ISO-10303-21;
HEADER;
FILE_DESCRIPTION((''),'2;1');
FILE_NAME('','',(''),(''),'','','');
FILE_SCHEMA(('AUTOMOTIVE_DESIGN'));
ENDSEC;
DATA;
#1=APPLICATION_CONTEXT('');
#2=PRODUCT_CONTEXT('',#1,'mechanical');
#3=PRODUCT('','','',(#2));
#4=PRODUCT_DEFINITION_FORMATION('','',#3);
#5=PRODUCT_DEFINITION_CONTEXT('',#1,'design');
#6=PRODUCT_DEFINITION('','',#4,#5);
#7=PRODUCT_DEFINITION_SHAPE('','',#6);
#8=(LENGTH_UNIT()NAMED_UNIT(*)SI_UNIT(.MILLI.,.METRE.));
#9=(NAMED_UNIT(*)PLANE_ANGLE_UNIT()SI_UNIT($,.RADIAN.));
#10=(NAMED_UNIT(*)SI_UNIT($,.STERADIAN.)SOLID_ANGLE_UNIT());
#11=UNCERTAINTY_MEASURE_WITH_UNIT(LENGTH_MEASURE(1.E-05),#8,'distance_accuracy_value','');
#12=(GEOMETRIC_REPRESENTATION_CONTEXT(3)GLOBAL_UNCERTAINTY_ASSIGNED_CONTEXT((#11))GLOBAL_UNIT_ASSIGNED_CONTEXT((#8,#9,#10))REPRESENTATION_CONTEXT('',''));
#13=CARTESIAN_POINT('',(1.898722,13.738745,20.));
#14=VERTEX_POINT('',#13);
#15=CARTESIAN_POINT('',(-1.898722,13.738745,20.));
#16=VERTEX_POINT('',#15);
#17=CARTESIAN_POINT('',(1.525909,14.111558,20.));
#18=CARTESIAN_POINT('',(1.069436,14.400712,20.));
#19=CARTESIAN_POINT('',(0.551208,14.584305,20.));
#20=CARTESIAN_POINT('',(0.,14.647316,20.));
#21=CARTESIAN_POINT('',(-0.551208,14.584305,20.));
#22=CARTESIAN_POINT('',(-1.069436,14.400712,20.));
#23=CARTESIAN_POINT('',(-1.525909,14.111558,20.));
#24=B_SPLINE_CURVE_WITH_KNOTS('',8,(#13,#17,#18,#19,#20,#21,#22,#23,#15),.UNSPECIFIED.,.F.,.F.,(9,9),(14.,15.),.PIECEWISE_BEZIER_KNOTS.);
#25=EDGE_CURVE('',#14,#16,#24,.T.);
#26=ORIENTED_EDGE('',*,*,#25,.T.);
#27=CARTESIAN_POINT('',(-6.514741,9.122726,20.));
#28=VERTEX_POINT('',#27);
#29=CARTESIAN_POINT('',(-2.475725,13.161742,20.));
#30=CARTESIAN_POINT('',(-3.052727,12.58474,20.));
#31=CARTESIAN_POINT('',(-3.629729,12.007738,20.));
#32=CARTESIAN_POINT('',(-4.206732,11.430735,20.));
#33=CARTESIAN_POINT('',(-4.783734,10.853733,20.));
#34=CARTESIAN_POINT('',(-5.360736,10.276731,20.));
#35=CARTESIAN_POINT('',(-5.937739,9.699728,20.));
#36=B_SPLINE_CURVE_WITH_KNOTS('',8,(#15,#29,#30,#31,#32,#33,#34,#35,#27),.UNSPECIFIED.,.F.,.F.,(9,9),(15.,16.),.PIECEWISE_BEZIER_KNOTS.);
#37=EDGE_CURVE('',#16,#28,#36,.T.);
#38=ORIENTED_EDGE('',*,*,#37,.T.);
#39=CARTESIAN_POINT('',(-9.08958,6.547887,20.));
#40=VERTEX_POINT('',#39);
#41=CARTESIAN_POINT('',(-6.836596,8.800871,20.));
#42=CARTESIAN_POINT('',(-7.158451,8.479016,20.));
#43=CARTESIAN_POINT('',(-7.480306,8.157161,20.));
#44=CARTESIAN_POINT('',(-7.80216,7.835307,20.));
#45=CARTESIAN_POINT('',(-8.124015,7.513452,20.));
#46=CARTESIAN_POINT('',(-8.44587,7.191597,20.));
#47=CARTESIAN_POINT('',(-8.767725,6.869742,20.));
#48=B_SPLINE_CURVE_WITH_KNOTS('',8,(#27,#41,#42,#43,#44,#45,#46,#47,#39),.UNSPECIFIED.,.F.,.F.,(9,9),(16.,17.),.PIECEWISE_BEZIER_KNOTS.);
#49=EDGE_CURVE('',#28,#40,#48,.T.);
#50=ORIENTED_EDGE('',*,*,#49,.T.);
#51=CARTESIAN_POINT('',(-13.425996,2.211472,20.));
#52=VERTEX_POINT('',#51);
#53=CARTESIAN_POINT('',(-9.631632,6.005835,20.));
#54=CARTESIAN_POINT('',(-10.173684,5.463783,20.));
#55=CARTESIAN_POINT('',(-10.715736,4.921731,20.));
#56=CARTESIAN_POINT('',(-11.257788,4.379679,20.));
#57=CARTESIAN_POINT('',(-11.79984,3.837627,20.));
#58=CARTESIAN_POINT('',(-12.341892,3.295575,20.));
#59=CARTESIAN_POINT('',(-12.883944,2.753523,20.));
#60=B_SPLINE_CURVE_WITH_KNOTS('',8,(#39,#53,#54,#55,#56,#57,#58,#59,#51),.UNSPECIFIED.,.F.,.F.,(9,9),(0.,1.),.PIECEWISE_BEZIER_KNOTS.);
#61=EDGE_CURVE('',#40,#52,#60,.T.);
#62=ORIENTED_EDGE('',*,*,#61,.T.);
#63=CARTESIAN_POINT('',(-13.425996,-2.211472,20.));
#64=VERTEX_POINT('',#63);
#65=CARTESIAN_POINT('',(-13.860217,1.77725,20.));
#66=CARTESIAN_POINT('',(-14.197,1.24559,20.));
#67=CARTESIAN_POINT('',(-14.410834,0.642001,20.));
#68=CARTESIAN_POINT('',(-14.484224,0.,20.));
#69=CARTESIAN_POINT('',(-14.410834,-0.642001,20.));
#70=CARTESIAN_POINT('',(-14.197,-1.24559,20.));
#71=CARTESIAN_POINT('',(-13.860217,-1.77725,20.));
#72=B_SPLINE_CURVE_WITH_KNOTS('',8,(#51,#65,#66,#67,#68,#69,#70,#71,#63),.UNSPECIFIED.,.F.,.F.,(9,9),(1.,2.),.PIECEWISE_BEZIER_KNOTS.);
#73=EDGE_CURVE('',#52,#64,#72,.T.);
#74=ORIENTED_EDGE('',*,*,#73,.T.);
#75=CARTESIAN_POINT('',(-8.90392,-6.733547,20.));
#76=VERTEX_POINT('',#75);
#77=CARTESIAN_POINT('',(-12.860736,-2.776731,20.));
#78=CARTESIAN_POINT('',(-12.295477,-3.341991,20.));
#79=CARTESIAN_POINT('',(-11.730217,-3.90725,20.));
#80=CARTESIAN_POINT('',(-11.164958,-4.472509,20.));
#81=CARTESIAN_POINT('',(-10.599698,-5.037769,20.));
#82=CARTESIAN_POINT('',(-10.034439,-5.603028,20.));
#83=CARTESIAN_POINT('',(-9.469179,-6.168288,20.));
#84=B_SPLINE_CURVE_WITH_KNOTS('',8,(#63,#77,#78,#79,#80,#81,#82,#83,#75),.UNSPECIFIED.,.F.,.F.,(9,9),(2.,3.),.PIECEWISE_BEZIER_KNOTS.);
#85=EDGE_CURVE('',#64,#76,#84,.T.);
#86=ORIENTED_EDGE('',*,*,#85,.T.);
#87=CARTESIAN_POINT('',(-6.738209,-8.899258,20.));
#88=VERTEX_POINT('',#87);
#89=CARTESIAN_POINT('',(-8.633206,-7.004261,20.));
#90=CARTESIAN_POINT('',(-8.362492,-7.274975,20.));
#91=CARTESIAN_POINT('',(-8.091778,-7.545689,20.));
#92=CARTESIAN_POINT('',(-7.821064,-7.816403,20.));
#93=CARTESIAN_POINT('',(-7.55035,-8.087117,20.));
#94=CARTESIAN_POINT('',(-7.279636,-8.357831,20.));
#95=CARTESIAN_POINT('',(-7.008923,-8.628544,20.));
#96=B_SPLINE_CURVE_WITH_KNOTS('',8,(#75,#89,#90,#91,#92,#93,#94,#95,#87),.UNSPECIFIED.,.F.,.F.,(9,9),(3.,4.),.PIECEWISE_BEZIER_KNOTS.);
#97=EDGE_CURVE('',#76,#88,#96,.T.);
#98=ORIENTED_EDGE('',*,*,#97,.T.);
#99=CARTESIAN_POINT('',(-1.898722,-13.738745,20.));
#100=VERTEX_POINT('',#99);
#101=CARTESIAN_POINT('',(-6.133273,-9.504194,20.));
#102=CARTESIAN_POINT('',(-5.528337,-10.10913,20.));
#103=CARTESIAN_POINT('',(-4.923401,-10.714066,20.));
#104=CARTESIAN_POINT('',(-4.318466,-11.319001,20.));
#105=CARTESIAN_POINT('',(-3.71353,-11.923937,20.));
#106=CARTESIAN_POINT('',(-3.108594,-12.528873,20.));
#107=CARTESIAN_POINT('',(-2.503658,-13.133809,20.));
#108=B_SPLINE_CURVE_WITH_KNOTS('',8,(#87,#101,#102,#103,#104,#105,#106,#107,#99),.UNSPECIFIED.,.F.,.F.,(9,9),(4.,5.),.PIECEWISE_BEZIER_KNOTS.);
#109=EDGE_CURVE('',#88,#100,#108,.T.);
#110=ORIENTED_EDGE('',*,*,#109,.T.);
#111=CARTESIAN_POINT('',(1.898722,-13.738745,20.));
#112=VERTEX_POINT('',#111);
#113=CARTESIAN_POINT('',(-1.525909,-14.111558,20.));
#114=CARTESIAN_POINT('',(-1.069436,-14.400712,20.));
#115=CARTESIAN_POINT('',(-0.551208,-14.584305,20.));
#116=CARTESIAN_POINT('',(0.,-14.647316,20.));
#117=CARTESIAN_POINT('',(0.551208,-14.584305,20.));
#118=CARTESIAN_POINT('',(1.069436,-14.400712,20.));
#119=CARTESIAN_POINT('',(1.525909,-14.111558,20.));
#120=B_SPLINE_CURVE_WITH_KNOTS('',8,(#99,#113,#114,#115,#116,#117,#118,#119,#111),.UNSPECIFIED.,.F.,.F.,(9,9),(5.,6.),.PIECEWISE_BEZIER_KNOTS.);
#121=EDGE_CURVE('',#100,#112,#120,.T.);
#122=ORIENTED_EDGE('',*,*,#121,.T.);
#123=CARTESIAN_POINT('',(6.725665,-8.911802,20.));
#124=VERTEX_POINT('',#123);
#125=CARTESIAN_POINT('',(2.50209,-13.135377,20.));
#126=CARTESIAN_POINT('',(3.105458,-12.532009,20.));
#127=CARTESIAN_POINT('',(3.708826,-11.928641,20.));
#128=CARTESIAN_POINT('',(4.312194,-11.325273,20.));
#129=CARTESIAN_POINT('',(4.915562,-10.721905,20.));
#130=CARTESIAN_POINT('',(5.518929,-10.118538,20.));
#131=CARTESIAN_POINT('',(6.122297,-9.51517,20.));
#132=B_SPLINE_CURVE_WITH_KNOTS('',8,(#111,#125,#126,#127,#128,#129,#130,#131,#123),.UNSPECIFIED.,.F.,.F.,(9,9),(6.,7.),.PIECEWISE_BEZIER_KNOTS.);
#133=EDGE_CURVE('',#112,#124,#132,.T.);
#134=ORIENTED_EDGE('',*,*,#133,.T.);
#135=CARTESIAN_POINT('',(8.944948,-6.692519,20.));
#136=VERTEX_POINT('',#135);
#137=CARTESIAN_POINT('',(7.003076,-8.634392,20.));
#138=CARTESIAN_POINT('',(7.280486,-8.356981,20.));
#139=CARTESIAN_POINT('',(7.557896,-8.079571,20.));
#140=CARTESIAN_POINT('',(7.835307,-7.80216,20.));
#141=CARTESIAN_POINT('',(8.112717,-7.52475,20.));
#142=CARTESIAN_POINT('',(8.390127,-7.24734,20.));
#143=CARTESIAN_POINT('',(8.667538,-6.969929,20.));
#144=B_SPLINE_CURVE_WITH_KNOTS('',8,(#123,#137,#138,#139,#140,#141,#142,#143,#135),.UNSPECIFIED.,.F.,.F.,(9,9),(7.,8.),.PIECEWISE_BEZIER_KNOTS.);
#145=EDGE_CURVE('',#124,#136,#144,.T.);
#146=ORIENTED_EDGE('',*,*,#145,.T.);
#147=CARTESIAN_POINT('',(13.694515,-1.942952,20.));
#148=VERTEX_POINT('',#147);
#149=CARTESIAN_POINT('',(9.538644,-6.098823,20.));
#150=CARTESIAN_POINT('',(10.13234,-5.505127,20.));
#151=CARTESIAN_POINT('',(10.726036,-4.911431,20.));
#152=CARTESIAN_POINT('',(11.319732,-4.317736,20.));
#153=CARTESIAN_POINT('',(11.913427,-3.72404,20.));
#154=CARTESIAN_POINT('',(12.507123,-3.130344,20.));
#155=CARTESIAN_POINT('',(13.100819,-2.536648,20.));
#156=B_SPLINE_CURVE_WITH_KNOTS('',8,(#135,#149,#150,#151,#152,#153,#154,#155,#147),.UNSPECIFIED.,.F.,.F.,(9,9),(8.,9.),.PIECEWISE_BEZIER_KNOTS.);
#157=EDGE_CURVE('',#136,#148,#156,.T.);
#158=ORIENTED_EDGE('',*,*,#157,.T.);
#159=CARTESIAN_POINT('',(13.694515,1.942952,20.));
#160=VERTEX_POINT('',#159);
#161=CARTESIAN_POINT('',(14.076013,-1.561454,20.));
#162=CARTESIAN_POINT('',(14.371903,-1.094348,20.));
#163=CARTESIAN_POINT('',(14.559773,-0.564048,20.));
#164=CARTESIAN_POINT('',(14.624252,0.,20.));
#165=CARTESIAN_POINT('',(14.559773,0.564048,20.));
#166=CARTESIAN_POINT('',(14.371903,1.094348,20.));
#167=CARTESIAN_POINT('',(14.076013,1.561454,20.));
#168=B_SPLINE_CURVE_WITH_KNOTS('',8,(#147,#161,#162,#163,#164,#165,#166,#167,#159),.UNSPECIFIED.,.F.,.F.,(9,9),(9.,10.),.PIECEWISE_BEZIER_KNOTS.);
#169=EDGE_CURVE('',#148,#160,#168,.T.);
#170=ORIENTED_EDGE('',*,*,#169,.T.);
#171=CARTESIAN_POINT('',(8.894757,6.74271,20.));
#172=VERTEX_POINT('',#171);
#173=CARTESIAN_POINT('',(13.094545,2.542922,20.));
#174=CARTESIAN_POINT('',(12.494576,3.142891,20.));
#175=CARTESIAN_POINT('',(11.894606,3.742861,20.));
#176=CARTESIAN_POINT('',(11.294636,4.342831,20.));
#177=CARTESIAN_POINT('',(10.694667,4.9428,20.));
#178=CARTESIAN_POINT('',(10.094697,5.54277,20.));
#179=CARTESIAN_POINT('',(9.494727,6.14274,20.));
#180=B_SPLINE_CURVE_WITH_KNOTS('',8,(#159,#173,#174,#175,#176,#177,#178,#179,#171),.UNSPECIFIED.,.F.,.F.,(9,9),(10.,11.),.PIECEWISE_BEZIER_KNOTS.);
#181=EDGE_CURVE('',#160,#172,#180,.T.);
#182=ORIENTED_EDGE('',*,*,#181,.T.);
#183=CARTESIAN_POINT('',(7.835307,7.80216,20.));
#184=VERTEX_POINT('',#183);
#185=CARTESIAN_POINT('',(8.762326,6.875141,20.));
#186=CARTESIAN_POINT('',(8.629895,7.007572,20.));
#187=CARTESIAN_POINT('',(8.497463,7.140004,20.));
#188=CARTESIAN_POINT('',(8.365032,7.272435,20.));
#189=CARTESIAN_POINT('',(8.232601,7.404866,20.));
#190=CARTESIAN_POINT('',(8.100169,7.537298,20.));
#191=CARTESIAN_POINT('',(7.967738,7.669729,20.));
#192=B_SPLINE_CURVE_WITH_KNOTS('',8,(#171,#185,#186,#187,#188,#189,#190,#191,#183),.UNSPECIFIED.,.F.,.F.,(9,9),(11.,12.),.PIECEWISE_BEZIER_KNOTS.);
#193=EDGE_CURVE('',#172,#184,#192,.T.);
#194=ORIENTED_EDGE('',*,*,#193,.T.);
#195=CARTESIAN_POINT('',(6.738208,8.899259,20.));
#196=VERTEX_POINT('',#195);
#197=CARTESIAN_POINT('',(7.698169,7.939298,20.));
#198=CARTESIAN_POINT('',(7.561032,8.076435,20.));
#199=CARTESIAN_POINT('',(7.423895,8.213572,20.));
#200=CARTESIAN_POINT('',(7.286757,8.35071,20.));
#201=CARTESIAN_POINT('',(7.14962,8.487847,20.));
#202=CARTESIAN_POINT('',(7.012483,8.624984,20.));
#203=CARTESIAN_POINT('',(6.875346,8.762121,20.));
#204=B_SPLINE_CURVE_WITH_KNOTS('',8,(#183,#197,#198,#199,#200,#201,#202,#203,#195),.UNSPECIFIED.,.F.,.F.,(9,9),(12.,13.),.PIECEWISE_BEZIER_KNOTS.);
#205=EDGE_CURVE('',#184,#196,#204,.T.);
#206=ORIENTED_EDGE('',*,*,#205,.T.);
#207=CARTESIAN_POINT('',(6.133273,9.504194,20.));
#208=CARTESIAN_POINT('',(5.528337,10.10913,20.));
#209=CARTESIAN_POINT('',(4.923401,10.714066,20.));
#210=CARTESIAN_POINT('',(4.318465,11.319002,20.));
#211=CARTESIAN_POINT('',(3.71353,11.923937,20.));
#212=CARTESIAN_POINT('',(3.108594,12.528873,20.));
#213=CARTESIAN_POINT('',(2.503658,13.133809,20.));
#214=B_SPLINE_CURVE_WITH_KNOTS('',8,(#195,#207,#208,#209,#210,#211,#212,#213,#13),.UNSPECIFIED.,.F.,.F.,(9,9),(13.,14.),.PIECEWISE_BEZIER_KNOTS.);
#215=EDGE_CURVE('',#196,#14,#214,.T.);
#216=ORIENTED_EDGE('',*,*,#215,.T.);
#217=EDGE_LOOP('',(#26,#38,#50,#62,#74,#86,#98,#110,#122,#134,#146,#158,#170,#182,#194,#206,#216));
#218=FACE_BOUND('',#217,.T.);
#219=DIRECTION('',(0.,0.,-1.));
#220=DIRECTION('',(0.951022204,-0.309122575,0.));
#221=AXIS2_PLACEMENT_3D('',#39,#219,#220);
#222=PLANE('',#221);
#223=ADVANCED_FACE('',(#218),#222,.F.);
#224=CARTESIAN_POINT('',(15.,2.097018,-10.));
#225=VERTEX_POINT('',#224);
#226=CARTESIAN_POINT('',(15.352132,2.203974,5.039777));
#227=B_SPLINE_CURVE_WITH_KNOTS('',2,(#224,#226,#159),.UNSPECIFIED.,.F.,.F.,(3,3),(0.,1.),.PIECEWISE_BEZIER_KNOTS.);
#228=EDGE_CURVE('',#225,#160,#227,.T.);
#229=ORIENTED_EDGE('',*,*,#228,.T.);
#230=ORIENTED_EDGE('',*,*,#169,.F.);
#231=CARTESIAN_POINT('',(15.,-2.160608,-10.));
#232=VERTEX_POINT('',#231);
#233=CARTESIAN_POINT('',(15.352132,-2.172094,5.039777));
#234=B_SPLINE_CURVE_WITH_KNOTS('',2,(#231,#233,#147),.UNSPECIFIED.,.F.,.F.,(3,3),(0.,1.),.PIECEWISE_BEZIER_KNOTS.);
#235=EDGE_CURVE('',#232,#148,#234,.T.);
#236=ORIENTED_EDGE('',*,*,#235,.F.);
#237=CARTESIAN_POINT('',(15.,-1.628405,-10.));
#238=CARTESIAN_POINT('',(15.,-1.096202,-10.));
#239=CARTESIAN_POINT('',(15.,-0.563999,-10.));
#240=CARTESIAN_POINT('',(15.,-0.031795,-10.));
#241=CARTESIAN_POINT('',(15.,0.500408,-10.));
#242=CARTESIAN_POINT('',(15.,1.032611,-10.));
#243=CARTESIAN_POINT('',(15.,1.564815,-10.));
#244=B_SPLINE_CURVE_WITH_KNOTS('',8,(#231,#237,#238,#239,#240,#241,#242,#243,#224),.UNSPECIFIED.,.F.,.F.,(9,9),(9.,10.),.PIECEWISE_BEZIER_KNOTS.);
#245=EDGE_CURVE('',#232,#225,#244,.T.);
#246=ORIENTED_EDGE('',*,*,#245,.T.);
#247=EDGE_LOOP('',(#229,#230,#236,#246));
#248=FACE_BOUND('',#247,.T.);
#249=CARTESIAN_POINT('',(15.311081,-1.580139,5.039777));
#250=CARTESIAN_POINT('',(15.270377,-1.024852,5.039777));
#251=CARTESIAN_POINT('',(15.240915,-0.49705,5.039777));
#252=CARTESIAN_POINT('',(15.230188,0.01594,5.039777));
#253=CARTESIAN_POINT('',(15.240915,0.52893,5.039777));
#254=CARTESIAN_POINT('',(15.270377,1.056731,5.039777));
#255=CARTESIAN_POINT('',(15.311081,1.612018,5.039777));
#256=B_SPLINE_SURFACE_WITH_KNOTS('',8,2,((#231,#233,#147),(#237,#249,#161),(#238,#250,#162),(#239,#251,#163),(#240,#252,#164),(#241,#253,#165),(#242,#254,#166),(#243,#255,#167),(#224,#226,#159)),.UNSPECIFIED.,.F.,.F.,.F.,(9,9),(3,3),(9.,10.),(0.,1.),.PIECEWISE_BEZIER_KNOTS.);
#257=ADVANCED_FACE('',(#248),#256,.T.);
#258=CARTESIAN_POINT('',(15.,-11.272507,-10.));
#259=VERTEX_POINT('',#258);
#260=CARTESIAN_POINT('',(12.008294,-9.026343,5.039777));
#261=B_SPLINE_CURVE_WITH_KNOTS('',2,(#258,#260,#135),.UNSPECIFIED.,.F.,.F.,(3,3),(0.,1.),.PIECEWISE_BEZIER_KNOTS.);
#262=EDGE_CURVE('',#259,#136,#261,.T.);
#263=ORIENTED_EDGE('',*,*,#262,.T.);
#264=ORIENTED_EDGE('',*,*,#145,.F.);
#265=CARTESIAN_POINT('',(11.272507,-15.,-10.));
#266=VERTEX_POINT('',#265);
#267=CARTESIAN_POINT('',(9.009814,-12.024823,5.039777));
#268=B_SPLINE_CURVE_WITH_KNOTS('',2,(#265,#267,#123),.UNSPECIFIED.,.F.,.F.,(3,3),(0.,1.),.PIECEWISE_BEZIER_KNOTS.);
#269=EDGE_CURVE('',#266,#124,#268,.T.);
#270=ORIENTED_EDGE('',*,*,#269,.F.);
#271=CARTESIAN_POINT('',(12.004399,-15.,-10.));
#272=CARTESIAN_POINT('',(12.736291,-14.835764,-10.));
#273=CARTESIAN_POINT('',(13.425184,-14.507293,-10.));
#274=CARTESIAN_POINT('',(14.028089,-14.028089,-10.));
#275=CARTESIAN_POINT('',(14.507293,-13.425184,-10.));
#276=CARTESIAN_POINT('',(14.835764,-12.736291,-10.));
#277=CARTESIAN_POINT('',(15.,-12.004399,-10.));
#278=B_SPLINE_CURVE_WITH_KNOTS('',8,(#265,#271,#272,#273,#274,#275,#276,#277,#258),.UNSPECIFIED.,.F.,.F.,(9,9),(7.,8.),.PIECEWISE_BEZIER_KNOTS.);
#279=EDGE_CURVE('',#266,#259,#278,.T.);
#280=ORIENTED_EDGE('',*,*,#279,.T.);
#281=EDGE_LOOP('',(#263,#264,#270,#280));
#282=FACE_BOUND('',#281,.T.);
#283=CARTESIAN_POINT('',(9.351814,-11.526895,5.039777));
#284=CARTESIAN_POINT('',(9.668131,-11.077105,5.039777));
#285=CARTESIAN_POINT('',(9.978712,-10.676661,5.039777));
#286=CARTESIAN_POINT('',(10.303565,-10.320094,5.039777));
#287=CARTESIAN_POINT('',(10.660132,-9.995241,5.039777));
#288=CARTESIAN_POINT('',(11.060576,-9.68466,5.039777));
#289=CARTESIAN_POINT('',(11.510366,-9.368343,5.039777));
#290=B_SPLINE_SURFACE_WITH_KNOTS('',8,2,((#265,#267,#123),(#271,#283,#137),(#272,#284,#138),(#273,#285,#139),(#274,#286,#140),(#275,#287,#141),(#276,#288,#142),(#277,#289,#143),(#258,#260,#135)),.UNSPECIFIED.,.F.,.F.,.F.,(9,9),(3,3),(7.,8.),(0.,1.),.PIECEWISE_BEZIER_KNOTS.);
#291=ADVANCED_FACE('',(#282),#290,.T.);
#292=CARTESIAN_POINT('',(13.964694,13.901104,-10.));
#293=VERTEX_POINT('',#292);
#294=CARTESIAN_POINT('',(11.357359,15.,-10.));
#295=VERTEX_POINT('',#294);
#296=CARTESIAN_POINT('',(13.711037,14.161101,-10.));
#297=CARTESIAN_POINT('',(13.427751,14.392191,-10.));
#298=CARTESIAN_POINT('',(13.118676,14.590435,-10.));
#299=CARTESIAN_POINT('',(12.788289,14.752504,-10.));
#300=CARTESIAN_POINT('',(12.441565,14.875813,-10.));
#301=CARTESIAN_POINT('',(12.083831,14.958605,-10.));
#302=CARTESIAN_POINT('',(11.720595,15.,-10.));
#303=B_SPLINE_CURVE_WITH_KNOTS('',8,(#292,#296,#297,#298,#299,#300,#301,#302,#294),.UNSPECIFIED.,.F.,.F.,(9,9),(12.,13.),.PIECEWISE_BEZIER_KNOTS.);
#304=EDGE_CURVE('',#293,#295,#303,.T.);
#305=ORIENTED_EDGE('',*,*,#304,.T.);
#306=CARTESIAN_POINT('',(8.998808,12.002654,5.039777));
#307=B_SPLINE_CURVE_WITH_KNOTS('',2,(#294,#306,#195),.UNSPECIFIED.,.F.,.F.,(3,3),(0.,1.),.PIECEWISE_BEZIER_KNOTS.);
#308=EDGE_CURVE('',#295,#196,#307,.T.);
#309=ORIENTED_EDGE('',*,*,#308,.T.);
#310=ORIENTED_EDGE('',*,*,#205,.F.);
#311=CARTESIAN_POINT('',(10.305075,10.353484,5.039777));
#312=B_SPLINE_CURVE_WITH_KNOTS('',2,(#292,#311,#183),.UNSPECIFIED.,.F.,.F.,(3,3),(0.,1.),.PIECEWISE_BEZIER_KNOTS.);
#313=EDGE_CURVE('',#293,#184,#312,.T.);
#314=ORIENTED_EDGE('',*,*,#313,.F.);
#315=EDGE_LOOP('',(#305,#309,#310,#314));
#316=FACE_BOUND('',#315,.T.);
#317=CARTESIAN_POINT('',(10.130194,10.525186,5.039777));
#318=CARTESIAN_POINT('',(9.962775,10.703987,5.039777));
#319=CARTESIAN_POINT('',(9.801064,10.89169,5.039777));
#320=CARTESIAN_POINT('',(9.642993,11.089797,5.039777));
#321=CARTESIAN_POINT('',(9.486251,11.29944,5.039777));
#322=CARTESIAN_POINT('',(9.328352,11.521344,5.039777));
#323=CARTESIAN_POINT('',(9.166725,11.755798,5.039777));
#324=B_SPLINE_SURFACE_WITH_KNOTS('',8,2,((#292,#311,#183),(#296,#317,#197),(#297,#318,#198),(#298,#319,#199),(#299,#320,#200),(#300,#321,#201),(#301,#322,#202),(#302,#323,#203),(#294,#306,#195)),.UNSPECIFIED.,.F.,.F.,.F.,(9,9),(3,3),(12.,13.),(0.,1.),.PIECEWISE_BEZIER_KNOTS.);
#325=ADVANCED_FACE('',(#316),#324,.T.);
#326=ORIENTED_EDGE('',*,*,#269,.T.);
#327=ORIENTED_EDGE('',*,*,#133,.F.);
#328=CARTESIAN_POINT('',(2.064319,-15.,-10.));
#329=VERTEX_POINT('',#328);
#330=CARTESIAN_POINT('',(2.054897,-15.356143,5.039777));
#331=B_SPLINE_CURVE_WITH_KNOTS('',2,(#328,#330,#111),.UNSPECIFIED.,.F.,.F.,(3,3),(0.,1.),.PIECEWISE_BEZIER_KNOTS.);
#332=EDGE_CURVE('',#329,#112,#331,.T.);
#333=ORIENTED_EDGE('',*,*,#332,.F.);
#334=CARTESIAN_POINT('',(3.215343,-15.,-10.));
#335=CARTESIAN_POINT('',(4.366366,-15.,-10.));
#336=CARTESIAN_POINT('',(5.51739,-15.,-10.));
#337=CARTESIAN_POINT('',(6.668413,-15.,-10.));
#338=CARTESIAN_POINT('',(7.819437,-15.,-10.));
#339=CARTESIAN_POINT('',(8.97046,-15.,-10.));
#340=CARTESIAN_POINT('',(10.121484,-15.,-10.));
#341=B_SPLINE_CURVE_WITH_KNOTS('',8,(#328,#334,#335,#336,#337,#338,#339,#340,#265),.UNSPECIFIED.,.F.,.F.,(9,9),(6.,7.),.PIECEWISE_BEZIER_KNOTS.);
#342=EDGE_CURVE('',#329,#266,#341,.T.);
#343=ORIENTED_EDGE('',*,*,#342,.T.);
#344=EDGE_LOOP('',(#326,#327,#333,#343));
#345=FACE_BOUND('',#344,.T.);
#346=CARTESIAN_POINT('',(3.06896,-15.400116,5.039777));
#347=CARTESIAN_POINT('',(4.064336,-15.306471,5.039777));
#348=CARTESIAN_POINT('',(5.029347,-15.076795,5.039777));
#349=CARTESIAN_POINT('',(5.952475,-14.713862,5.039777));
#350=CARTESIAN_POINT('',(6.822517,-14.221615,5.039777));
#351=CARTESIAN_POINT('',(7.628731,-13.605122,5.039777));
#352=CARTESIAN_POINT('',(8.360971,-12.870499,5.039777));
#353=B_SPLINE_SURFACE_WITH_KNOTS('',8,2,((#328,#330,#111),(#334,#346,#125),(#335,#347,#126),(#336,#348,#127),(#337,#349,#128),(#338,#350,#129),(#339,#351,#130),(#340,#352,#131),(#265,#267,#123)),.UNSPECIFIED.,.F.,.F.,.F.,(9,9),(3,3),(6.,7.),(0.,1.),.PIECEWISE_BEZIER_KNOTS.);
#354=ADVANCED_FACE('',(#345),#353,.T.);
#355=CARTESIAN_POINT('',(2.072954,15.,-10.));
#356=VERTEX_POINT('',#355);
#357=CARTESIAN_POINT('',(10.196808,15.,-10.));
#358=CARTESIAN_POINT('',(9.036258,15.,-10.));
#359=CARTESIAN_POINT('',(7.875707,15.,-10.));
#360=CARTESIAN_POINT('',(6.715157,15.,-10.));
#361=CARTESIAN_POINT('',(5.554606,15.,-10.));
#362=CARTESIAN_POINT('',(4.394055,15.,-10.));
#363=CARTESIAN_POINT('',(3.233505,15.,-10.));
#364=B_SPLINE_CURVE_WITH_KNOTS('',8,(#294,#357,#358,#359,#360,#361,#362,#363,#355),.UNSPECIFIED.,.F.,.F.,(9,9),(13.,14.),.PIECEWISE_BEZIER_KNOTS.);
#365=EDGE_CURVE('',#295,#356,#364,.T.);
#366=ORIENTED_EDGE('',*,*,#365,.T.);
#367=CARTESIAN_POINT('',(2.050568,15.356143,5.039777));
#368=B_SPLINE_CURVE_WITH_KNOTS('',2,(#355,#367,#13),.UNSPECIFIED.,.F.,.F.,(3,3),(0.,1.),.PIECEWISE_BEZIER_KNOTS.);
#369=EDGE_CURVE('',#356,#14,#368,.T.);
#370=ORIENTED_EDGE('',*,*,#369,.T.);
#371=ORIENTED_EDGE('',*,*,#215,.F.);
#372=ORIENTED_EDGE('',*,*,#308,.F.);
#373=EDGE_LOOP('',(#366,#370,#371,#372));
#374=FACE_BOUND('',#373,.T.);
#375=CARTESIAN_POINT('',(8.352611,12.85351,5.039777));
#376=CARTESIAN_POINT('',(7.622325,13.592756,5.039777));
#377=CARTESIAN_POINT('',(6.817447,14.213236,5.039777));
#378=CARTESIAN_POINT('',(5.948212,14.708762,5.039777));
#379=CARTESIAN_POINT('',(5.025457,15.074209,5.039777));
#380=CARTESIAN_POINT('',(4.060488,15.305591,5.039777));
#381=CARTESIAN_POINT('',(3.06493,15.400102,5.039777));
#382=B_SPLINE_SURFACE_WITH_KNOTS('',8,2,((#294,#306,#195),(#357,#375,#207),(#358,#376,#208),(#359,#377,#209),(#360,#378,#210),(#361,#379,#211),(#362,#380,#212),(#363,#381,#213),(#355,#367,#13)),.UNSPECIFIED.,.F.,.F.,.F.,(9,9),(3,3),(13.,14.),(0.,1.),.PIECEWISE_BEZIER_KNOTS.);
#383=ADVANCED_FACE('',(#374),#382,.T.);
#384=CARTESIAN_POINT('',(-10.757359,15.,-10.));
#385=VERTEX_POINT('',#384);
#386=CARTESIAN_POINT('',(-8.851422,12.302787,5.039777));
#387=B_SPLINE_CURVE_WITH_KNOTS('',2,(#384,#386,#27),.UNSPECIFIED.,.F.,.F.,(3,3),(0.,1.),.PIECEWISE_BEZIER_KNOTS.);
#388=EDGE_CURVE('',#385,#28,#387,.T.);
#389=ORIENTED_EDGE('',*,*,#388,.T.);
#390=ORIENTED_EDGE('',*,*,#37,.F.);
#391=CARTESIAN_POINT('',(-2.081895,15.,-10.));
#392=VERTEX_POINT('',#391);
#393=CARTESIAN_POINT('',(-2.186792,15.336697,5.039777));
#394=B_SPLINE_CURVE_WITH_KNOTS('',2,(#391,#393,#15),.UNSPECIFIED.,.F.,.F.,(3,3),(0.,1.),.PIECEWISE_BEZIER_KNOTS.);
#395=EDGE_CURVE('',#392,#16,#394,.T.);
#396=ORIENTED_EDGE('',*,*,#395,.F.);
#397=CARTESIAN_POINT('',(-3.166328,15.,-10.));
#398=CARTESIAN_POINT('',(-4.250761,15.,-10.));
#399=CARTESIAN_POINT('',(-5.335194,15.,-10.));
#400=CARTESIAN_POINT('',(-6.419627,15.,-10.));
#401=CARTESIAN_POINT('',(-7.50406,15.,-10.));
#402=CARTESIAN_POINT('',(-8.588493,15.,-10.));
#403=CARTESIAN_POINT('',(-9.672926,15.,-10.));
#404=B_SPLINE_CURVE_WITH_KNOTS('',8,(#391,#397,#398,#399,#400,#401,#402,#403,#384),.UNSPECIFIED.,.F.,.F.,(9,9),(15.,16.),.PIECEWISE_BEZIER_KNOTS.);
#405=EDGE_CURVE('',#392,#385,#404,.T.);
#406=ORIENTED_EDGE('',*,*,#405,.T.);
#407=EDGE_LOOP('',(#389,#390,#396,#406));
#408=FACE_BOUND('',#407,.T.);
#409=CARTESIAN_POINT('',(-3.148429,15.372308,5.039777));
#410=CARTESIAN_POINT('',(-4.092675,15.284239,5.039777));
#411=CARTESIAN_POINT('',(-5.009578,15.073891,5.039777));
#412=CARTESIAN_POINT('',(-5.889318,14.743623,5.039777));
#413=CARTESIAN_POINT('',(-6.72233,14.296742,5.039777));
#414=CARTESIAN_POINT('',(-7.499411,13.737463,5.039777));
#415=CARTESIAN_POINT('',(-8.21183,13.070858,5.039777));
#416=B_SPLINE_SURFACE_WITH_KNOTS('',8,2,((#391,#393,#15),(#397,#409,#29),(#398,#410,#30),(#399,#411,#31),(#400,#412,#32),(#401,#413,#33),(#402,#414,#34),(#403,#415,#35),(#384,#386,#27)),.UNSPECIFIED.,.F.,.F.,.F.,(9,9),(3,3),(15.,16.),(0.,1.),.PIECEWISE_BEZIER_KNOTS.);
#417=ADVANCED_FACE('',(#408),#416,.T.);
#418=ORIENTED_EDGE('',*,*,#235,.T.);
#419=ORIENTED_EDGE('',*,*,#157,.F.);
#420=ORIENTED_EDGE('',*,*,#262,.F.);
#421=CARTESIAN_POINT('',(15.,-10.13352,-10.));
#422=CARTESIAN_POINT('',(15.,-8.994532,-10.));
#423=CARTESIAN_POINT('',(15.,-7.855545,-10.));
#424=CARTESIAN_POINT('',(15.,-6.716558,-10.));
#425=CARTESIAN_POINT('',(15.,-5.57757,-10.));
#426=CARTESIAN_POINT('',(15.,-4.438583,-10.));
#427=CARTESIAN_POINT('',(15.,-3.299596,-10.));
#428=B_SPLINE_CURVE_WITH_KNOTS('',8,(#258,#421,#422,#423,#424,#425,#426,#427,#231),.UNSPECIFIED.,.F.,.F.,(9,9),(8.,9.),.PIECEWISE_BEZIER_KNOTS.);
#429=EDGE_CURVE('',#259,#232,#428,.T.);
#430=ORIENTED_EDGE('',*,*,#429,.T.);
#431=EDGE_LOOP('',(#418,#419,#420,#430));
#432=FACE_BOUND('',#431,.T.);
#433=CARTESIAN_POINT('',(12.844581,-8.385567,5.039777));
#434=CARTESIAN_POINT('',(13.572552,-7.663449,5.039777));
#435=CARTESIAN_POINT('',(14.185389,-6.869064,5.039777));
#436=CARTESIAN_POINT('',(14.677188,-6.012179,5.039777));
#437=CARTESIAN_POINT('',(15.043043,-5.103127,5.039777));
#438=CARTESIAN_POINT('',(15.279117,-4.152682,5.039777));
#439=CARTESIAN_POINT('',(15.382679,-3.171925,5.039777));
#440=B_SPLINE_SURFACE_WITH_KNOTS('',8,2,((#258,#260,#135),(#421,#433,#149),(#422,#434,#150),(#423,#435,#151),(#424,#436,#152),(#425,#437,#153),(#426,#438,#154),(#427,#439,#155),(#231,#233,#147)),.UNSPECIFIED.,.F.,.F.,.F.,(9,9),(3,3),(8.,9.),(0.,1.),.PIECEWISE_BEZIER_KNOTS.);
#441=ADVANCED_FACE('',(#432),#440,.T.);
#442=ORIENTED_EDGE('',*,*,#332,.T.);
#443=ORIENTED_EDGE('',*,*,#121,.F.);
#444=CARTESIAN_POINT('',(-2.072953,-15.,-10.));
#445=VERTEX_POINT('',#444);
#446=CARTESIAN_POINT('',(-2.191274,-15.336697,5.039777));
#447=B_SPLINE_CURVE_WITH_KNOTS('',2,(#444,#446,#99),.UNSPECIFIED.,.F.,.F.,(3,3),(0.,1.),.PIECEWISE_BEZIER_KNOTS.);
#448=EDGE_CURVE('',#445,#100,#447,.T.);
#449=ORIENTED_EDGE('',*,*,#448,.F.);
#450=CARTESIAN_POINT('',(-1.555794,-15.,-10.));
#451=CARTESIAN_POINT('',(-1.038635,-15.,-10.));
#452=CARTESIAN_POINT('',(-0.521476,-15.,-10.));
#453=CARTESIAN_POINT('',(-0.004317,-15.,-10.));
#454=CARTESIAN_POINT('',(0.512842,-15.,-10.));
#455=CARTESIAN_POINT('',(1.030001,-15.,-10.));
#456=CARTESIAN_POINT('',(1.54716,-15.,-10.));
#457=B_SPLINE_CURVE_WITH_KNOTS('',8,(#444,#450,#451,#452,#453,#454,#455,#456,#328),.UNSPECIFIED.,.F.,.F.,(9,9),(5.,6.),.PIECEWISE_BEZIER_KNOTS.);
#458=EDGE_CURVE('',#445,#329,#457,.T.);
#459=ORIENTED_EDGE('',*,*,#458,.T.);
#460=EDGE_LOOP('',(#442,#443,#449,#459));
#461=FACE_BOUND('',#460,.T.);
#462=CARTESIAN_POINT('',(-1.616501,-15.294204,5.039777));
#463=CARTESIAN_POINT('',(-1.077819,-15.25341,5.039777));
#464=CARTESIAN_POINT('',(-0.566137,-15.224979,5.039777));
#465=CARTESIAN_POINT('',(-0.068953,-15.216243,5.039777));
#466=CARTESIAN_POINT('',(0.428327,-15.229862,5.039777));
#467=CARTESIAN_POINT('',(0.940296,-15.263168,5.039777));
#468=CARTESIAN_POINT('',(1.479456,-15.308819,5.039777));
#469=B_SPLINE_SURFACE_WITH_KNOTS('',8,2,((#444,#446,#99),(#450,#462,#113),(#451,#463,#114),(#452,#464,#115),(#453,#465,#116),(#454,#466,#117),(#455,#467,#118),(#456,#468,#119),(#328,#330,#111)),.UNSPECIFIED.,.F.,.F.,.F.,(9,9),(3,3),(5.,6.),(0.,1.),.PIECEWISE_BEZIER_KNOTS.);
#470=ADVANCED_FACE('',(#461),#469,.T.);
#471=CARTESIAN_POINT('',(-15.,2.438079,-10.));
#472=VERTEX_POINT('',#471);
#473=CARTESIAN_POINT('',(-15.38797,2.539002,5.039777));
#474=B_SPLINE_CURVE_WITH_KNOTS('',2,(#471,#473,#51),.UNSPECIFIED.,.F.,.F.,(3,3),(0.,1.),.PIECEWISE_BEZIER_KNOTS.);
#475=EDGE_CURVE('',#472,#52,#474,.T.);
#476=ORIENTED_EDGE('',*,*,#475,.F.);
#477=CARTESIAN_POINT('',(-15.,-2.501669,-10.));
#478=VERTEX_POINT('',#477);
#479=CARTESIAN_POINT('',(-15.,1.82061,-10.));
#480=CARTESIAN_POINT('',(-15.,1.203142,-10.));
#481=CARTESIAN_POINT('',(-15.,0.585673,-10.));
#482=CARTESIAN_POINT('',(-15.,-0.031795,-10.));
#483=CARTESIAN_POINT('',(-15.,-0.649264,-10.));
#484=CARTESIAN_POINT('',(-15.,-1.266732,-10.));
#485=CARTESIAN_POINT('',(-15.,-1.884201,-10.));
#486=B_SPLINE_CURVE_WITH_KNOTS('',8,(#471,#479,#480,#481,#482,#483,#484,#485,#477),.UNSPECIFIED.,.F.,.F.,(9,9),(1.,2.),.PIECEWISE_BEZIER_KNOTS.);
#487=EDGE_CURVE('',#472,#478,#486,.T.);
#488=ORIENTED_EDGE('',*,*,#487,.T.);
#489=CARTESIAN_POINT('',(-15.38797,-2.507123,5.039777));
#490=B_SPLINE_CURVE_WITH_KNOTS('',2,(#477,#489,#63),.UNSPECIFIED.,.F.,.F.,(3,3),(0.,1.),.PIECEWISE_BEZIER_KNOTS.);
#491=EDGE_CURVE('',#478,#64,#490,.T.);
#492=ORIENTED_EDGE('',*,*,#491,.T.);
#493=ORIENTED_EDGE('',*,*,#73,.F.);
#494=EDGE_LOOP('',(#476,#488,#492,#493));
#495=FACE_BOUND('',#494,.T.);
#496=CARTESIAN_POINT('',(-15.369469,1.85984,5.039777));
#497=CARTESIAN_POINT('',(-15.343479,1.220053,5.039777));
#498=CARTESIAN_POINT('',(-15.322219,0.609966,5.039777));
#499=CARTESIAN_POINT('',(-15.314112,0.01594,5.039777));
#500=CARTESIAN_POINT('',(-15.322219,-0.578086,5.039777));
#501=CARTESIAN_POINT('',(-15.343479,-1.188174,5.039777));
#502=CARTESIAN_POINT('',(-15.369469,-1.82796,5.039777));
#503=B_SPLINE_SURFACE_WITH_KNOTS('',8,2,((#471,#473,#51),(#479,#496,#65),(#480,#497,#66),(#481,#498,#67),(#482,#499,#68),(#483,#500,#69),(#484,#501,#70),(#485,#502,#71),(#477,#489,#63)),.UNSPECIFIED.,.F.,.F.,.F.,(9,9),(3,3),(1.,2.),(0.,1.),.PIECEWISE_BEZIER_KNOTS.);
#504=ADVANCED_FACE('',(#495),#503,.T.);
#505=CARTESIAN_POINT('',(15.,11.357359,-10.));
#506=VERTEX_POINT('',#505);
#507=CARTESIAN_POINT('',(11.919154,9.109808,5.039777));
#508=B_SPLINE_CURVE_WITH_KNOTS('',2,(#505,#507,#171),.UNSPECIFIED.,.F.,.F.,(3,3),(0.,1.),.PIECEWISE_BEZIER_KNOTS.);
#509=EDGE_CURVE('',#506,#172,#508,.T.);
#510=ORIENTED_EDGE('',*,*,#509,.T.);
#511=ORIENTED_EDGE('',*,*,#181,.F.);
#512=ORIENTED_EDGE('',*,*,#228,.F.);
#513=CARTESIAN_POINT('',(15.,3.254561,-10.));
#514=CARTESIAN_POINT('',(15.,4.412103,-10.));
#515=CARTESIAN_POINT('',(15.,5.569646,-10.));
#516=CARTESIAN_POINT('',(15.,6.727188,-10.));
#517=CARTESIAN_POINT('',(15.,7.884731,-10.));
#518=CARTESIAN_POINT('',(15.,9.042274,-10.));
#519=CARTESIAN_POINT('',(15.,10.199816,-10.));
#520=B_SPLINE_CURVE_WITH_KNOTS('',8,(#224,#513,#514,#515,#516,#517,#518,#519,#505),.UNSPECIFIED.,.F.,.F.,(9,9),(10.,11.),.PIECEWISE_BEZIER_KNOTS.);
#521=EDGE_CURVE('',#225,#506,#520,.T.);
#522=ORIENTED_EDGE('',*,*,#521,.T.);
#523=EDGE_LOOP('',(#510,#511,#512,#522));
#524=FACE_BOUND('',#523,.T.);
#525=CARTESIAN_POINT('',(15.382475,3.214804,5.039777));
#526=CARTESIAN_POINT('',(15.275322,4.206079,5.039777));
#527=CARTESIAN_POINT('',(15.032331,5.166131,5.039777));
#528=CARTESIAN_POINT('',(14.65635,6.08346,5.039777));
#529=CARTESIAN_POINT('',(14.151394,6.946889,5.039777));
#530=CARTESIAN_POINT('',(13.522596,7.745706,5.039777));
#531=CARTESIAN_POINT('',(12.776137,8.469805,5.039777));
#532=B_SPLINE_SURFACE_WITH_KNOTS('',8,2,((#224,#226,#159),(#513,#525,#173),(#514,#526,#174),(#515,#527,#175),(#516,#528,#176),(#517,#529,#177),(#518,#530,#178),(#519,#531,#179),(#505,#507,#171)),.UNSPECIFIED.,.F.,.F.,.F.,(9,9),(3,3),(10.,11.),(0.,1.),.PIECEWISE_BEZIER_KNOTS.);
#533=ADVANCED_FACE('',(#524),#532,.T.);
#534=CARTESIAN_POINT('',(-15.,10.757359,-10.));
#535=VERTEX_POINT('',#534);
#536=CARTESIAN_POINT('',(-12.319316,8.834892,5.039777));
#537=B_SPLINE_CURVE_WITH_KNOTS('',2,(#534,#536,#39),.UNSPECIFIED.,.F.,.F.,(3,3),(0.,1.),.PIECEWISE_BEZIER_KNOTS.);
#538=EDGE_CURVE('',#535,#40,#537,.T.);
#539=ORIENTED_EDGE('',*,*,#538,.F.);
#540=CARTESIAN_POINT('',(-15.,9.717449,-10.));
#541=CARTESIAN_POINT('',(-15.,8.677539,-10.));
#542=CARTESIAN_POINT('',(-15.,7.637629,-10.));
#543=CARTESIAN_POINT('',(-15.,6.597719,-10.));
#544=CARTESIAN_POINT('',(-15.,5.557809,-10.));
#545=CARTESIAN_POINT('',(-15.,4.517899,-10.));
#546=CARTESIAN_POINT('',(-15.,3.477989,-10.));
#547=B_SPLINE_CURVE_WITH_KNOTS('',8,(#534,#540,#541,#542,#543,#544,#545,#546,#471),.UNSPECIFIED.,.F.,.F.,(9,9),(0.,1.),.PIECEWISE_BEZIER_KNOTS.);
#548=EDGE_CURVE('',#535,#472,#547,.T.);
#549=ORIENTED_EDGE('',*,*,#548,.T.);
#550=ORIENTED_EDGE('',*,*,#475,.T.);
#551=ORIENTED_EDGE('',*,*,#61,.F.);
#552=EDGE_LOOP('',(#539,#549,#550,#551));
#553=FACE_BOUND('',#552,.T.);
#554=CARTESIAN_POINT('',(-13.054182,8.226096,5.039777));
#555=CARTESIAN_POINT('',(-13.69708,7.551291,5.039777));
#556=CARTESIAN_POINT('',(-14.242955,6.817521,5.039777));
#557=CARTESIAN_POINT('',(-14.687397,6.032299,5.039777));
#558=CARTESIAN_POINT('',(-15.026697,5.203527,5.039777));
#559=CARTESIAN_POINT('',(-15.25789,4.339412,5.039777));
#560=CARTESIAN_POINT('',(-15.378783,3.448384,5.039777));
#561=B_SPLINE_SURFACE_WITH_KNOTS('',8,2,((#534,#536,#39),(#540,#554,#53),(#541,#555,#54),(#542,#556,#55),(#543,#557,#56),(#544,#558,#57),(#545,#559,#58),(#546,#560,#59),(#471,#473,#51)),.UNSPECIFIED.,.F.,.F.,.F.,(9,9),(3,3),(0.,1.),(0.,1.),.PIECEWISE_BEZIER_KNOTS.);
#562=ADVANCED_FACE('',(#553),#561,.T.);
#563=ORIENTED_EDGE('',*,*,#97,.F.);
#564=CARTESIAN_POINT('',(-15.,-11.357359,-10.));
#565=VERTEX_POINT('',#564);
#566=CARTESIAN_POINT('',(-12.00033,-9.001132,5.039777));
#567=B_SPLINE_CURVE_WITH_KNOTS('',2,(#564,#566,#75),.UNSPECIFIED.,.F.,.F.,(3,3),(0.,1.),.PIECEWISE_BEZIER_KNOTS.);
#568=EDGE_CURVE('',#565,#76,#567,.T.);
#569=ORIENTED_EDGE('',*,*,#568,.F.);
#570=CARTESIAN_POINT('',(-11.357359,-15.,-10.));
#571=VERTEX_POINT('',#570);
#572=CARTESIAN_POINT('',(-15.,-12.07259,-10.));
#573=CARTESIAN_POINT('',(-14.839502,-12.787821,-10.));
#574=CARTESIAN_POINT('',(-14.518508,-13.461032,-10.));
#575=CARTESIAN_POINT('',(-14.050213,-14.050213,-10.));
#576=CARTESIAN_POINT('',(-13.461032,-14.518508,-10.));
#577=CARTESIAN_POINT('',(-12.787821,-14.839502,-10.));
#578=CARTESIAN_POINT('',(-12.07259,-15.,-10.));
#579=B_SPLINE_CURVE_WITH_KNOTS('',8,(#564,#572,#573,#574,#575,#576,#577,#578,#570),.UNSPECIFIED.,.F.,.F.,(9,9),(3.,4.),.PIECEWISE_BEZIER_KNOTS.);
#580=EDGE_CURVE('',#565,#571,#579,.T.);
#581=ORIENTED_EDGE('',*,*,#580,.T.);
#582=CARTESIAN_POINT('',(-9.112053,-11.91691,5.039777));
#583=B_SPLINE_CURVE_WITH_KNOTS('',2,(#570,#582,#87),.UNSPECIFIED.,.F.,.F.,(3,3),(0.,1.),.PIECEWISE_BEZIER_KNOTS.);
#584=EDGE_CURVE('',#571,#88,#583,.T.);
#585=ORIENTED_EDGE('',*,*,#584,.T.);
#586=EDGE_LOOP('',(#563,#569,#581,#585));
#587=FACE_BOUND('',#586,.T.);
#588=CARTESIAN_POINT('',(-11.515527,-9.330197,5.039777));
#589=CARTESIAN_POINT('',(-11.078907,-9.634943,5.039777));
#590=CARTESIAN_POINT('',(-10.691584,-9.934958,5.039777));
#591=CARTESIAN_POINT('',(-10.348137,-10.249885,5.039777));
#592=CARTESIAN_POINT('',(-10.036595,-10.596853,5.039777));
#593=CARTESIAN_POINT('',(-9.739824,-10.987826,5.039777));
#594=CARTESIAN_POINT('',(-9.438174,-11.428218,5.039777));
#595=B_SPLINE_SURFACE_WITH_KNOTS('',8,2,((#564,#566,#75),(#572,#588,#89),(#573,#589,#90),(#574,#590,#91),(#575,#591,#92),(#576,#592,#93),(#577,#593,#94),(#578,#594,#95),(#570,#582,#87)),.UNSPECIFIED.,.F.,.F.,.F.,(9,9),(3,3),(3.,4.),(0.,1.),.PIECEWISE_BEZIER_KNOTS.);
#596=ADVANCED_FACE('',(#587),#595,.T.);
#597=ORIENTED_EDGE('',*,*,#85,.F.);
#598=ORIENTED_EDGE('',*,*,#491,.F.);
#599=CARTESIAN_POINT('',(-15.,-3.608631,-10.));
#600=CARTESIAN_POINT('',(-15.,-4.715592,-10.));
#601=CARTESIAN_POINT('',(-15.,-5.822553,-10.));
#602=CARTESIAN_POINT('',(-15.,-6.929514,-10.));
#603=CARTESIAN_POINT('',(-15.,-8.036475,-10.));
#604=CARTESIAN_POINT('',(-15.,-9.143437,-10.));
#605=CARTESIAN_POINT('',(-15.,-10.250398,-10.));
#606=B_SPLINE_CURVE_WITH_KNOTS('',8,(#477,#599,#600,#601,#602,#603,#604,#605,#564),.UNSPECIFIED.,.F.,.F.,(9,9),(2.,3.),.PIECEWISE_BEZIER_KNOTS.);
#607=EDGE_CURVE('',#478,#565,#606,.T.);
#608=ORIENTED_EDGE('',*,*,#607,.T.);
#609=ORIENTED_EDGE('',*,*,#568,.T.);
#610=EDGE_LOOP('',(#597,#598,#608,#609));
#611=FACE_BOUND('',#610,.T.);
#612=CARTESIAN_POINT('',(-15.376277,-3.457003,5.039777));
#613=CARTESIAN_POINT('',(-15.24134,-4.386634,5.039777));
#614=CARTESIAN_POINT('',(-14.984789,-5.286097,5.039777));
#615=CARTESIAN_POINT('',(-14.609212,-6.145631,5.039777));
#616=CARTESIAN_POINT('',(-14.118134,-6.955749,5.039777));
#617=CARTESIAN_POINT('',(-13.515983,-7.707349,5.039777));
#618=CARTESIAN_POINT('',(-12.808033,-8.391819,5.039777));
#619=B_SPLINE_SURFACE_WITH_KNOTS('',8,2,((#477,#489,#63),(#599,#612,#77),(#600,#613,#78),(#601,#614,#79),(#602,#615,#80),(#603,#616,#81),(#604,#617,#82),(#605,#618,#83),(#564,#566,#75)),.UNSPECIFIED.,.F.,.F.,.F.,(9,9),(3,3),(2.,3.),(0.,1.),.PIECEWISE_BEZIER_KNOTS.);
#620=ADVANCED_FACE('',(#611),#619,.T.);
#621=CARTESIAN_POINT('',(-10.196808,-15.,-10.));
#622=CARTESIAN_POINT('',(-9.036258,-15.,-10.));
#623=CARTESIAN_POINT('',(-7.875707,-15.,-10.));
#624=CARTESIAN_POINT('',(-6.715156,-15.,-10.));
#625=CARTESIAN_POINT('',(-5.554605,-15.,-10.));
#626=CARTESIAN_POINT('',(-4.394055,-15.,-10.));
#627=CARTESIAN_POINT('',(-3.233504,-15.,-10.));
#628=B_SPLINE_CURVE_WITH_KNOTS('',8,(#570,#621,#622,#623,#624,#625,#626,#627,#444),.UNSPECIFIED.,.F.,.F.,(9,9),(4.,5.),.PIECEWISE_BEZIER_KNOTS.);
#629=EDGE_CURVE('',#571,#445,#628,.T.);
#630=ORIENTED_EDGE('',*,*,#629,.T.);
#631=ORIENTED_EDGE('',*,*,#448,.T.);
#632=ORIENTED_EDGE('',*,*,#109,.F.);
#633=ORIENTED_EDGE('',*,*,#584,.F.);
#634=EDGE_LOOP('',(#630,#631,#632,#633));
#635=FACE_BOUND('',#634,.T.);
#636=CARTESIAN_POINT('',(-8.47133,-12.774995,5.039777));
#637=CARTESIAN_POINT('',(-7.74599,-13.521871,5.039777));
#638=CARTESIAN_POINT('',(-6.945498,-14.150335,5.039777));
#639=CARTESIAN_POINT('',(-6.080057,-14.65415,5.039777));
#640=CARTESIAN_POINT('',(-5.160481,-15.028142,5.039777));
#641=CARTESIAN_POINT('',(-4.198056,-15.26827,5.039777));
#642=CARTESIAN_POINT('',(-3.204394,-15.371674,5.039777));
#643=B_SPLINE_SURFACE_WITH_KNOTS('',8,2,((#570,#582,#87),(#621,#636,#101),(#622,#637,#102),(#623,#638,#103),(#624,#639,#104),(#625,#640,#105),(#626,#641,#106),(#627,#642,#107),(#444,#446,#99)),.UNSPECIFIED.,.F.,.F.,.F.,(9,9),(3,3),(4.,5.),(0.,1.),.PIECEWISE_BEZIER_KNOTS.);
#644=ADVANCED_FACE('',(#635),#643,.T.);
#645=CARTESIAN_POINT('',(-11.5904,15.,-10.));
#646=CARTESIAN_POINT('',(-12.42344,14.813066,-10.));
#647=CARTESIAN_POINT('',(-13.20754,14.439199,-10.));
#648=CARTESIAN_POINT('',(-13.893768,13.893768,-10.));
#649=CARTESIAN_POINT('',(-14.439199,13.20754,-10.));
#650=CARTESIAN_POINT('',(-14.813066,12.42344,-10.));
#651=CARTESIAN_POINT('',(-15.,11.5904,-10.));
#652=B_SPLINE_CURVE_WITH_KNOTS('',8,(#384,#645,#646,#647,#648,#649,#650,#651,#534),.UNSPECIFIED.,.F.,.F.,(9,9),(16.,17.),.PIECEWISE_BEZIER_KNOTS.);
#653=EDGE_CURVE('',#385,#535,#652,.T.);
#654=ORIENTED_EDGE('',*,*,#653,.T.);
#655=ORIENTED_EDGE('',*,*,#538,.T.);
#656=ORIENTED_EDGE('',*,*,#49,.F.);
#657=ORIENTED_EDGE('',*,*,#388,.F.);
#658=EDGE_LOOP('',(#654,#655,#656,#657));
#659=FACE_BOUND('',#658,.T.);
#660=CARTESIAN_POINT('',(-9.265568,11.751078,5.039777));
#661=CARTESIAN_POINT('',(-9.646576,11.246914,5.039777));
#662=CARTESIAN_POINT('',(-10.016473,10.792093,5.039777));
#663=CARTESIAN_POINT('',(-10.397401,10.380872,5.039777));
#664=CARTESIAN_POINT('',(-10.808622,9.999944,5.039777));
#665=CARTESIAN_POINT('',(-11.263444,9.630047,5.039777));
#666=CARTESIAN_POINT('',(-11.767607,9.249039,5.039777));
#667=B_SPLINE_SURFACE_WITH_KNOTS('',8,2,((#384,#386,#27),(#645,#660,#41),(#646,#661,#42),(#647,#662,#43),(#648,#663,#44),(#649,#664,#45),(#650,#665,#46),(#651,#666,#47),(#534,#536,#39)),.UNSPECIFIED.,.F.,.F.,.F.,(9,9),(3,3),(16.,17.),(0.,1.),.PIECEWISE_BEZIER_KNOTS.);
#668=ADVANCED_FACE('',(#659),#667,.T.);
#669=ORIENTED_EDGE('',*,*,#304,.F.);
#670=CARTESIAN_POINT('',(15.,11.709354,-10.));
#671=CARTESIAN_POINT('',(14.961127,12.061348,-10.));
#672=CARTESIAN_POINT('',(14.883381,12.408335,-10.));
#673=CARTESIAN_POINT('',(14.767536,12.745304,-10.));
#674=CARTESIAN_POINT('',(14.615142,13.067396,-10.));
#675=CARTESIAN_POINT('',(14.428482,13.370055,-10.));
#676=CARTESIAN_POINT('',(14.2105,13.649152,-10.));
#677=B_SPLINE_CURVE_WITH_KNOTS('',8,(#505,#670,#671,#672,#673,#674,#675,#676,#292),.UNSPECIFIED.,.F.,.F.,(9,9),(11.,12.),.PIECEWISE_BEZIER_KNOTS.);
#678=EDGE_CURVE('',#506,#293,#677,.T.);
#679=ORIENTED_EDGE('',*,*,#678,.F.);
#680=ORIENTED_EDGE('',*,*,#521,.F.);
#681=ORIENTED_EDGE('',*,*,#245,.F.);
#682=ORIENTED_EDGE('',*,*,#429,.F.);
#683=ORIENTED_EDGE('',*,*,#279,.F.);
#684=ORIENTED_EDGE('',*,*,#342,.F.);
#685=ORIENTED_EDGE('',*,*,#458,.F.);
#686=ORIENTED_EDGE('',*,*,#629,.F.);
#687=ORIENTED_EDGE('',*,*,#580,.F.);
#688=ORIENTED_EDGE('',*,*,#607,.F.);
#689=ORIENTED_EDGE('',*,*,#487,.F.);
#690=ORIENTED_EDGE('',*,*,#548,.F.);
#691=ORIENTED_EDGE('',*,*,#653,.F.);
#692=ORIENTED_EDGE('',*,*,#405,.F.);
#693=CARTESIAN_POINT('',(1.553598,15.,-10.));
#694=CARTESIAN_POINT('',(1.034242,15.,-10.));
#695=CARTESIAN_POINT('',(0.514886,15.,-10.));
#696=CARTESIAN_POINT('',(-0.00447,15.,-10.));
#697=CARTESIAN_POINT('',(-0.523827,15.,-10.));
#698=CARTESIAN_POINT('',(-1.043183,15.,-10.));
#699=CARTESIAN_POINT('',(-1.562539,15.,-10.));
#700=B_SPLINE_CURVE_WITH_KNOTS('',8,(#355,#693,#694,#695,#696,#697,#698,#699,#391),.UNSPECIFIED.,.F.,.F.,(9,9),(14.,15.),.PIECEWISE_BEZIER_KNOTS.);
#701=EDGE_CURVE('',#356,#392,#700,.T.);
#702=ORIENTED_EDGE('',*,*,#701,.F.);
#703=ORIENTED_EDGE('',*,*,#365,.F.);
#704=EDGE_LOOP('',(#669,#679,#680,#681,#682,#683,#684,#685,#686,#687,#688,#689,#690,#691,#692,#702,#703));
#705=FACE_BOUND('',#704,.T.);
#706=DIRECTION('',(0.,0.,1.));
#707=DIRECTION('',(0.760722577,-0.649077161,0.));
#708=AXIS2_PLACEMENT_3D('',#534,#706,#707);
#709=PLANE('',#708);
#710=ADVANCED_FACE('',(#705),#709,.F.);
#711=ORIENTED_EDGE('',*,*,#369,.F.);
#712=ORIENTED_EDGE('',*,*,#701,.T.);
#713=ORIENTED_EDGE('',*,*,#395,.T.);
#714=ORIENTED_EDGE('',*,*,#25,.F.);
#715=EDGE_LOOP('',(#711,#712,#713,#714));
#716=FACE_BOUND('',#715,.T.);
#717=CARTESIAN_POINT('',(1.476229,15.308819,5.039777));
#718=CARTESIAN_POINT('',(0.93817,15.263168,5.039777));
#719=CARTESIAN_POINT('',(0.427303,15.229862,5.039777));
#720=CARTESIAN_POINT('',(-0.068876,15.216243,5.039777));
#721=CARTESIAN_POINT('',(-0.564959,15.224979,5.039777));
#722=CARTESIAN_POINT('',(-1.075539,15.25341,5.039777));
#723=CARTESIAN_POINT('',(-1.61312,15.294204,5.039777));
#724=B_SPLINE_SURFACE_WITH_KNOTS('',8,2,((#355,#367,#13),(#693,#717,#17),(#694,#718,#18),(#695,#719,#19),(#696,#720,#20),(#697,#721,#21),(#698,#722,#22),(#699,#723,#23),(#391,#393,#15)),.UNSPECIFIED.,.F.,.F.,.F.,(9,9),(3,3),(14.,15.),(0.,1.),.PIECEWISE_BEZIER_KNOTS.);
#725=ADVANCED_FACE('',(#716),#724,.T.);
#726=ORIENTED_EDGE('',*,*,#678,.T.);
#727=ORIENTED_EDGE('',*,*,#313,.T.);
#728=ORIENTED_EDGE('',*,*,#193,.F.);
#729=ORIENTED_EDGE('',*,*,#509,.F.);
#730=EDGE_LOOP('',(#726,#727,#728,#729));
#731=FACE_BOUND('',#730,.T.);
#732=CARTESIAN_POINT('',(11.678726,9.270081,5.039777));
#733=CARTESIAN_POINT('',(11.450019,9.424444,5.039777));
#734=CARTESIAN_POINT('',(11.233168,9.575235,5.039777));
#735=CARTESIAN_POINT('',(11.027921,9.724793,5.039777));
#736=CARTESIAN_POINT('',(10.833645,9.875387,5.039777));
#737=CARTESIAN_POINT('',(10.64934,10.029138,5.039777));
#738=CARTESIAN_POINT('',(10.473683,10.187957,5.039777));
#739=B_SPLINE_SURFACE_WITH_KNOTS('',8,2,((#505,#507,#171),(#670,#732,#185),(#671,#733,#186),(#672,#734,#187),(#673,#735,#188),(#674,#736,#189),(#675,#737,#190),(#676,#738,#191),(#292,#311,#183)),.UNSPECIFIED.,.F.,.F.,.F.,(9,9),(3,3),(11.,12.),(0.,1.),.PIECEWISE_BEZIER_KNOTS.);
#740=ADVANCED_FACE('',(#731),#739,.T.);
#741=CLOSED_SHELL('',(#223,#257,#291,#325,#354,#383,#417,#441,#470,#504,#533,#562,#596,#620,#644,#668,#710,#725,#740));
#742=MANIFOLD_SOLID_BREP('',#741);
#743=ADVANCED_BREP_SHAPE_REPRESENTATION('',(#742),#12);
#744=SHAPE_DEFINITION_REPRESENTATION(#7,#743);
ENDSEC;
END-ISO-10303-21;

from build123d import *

# Parameters (mm, degrees)
SKETCH002_R = 15


with BuildPart() as part:
    # Sketch → AdditiveLoft section 0
    with BuildSketch(Plane.XY.offset(-10)):
        with BuildLine():
            Line((-15, 10.757359), (-15, -11.357359))
            ThreePointArc((-15, -11.357359), (-13.933095, -13.933095), (-11.357359, -15))
            Line((-11.357359, -15), (11.272507, -15))
            ThreePointArc((11.272507, -15), (13.908243, -13.908243), (15, -11.272507))
            Line((15, -11.272507), (15, 11.357359))
            ThreePointArc((15, 11.357359), (13.933095, 13.933095), (11.357359, 15))
            Line((11.357359, 15), (-10.757359, 15))
            ThreePointArc((-10.757359, 15), (-13.757359, 13.757359), (-15, 10.757359))
        make_face()
    # Sketch002 → AdditiveLoft section 1
    with BuildSketch(Plane(origin=(0, 0, 5), x_dir=(0.707107, 0.707107, 0), z_dir=(0, 0, 1))):
        Circle(SKETCH002_R)
    # Sketch001 → AdditiveLoft section 2
    with BuildSketch(Plane(origin=(0, 0, 20), x_dir=(0.707107, 0.707107, 0), z_dir=(0, 0, 1))):
        with BuildLine():
            Line((-11.057359, 7.929866), (-11.057359, -8.37216))
            ThreePointArc((-11.057359, -8.37216), (-10.270882, -10.270882), (-8.37216, -11.057359))
            Line((-8.37216, -11.057359), (8.30961, -11.057359))
            ThreePointArc((8.30961, -11.057359), (10.252562, -10.252562), (11.057359, -8.30961))
            Line((11.057359, -8.30961), (11.057359, 8.37216))
            ThreePointArc((11.057359, 8.37216), (10.270882, 10.270882), (8.37216, 11.057359))
            Line((8.37216, 11.057359), (-7.929866, 11.057359))
            ThreePointArc((-7.929866, 11.057359), (-10.141338, 10.141338), (-11.057359, 7.929866))
        make_face()
    loft()


solid = part.part
